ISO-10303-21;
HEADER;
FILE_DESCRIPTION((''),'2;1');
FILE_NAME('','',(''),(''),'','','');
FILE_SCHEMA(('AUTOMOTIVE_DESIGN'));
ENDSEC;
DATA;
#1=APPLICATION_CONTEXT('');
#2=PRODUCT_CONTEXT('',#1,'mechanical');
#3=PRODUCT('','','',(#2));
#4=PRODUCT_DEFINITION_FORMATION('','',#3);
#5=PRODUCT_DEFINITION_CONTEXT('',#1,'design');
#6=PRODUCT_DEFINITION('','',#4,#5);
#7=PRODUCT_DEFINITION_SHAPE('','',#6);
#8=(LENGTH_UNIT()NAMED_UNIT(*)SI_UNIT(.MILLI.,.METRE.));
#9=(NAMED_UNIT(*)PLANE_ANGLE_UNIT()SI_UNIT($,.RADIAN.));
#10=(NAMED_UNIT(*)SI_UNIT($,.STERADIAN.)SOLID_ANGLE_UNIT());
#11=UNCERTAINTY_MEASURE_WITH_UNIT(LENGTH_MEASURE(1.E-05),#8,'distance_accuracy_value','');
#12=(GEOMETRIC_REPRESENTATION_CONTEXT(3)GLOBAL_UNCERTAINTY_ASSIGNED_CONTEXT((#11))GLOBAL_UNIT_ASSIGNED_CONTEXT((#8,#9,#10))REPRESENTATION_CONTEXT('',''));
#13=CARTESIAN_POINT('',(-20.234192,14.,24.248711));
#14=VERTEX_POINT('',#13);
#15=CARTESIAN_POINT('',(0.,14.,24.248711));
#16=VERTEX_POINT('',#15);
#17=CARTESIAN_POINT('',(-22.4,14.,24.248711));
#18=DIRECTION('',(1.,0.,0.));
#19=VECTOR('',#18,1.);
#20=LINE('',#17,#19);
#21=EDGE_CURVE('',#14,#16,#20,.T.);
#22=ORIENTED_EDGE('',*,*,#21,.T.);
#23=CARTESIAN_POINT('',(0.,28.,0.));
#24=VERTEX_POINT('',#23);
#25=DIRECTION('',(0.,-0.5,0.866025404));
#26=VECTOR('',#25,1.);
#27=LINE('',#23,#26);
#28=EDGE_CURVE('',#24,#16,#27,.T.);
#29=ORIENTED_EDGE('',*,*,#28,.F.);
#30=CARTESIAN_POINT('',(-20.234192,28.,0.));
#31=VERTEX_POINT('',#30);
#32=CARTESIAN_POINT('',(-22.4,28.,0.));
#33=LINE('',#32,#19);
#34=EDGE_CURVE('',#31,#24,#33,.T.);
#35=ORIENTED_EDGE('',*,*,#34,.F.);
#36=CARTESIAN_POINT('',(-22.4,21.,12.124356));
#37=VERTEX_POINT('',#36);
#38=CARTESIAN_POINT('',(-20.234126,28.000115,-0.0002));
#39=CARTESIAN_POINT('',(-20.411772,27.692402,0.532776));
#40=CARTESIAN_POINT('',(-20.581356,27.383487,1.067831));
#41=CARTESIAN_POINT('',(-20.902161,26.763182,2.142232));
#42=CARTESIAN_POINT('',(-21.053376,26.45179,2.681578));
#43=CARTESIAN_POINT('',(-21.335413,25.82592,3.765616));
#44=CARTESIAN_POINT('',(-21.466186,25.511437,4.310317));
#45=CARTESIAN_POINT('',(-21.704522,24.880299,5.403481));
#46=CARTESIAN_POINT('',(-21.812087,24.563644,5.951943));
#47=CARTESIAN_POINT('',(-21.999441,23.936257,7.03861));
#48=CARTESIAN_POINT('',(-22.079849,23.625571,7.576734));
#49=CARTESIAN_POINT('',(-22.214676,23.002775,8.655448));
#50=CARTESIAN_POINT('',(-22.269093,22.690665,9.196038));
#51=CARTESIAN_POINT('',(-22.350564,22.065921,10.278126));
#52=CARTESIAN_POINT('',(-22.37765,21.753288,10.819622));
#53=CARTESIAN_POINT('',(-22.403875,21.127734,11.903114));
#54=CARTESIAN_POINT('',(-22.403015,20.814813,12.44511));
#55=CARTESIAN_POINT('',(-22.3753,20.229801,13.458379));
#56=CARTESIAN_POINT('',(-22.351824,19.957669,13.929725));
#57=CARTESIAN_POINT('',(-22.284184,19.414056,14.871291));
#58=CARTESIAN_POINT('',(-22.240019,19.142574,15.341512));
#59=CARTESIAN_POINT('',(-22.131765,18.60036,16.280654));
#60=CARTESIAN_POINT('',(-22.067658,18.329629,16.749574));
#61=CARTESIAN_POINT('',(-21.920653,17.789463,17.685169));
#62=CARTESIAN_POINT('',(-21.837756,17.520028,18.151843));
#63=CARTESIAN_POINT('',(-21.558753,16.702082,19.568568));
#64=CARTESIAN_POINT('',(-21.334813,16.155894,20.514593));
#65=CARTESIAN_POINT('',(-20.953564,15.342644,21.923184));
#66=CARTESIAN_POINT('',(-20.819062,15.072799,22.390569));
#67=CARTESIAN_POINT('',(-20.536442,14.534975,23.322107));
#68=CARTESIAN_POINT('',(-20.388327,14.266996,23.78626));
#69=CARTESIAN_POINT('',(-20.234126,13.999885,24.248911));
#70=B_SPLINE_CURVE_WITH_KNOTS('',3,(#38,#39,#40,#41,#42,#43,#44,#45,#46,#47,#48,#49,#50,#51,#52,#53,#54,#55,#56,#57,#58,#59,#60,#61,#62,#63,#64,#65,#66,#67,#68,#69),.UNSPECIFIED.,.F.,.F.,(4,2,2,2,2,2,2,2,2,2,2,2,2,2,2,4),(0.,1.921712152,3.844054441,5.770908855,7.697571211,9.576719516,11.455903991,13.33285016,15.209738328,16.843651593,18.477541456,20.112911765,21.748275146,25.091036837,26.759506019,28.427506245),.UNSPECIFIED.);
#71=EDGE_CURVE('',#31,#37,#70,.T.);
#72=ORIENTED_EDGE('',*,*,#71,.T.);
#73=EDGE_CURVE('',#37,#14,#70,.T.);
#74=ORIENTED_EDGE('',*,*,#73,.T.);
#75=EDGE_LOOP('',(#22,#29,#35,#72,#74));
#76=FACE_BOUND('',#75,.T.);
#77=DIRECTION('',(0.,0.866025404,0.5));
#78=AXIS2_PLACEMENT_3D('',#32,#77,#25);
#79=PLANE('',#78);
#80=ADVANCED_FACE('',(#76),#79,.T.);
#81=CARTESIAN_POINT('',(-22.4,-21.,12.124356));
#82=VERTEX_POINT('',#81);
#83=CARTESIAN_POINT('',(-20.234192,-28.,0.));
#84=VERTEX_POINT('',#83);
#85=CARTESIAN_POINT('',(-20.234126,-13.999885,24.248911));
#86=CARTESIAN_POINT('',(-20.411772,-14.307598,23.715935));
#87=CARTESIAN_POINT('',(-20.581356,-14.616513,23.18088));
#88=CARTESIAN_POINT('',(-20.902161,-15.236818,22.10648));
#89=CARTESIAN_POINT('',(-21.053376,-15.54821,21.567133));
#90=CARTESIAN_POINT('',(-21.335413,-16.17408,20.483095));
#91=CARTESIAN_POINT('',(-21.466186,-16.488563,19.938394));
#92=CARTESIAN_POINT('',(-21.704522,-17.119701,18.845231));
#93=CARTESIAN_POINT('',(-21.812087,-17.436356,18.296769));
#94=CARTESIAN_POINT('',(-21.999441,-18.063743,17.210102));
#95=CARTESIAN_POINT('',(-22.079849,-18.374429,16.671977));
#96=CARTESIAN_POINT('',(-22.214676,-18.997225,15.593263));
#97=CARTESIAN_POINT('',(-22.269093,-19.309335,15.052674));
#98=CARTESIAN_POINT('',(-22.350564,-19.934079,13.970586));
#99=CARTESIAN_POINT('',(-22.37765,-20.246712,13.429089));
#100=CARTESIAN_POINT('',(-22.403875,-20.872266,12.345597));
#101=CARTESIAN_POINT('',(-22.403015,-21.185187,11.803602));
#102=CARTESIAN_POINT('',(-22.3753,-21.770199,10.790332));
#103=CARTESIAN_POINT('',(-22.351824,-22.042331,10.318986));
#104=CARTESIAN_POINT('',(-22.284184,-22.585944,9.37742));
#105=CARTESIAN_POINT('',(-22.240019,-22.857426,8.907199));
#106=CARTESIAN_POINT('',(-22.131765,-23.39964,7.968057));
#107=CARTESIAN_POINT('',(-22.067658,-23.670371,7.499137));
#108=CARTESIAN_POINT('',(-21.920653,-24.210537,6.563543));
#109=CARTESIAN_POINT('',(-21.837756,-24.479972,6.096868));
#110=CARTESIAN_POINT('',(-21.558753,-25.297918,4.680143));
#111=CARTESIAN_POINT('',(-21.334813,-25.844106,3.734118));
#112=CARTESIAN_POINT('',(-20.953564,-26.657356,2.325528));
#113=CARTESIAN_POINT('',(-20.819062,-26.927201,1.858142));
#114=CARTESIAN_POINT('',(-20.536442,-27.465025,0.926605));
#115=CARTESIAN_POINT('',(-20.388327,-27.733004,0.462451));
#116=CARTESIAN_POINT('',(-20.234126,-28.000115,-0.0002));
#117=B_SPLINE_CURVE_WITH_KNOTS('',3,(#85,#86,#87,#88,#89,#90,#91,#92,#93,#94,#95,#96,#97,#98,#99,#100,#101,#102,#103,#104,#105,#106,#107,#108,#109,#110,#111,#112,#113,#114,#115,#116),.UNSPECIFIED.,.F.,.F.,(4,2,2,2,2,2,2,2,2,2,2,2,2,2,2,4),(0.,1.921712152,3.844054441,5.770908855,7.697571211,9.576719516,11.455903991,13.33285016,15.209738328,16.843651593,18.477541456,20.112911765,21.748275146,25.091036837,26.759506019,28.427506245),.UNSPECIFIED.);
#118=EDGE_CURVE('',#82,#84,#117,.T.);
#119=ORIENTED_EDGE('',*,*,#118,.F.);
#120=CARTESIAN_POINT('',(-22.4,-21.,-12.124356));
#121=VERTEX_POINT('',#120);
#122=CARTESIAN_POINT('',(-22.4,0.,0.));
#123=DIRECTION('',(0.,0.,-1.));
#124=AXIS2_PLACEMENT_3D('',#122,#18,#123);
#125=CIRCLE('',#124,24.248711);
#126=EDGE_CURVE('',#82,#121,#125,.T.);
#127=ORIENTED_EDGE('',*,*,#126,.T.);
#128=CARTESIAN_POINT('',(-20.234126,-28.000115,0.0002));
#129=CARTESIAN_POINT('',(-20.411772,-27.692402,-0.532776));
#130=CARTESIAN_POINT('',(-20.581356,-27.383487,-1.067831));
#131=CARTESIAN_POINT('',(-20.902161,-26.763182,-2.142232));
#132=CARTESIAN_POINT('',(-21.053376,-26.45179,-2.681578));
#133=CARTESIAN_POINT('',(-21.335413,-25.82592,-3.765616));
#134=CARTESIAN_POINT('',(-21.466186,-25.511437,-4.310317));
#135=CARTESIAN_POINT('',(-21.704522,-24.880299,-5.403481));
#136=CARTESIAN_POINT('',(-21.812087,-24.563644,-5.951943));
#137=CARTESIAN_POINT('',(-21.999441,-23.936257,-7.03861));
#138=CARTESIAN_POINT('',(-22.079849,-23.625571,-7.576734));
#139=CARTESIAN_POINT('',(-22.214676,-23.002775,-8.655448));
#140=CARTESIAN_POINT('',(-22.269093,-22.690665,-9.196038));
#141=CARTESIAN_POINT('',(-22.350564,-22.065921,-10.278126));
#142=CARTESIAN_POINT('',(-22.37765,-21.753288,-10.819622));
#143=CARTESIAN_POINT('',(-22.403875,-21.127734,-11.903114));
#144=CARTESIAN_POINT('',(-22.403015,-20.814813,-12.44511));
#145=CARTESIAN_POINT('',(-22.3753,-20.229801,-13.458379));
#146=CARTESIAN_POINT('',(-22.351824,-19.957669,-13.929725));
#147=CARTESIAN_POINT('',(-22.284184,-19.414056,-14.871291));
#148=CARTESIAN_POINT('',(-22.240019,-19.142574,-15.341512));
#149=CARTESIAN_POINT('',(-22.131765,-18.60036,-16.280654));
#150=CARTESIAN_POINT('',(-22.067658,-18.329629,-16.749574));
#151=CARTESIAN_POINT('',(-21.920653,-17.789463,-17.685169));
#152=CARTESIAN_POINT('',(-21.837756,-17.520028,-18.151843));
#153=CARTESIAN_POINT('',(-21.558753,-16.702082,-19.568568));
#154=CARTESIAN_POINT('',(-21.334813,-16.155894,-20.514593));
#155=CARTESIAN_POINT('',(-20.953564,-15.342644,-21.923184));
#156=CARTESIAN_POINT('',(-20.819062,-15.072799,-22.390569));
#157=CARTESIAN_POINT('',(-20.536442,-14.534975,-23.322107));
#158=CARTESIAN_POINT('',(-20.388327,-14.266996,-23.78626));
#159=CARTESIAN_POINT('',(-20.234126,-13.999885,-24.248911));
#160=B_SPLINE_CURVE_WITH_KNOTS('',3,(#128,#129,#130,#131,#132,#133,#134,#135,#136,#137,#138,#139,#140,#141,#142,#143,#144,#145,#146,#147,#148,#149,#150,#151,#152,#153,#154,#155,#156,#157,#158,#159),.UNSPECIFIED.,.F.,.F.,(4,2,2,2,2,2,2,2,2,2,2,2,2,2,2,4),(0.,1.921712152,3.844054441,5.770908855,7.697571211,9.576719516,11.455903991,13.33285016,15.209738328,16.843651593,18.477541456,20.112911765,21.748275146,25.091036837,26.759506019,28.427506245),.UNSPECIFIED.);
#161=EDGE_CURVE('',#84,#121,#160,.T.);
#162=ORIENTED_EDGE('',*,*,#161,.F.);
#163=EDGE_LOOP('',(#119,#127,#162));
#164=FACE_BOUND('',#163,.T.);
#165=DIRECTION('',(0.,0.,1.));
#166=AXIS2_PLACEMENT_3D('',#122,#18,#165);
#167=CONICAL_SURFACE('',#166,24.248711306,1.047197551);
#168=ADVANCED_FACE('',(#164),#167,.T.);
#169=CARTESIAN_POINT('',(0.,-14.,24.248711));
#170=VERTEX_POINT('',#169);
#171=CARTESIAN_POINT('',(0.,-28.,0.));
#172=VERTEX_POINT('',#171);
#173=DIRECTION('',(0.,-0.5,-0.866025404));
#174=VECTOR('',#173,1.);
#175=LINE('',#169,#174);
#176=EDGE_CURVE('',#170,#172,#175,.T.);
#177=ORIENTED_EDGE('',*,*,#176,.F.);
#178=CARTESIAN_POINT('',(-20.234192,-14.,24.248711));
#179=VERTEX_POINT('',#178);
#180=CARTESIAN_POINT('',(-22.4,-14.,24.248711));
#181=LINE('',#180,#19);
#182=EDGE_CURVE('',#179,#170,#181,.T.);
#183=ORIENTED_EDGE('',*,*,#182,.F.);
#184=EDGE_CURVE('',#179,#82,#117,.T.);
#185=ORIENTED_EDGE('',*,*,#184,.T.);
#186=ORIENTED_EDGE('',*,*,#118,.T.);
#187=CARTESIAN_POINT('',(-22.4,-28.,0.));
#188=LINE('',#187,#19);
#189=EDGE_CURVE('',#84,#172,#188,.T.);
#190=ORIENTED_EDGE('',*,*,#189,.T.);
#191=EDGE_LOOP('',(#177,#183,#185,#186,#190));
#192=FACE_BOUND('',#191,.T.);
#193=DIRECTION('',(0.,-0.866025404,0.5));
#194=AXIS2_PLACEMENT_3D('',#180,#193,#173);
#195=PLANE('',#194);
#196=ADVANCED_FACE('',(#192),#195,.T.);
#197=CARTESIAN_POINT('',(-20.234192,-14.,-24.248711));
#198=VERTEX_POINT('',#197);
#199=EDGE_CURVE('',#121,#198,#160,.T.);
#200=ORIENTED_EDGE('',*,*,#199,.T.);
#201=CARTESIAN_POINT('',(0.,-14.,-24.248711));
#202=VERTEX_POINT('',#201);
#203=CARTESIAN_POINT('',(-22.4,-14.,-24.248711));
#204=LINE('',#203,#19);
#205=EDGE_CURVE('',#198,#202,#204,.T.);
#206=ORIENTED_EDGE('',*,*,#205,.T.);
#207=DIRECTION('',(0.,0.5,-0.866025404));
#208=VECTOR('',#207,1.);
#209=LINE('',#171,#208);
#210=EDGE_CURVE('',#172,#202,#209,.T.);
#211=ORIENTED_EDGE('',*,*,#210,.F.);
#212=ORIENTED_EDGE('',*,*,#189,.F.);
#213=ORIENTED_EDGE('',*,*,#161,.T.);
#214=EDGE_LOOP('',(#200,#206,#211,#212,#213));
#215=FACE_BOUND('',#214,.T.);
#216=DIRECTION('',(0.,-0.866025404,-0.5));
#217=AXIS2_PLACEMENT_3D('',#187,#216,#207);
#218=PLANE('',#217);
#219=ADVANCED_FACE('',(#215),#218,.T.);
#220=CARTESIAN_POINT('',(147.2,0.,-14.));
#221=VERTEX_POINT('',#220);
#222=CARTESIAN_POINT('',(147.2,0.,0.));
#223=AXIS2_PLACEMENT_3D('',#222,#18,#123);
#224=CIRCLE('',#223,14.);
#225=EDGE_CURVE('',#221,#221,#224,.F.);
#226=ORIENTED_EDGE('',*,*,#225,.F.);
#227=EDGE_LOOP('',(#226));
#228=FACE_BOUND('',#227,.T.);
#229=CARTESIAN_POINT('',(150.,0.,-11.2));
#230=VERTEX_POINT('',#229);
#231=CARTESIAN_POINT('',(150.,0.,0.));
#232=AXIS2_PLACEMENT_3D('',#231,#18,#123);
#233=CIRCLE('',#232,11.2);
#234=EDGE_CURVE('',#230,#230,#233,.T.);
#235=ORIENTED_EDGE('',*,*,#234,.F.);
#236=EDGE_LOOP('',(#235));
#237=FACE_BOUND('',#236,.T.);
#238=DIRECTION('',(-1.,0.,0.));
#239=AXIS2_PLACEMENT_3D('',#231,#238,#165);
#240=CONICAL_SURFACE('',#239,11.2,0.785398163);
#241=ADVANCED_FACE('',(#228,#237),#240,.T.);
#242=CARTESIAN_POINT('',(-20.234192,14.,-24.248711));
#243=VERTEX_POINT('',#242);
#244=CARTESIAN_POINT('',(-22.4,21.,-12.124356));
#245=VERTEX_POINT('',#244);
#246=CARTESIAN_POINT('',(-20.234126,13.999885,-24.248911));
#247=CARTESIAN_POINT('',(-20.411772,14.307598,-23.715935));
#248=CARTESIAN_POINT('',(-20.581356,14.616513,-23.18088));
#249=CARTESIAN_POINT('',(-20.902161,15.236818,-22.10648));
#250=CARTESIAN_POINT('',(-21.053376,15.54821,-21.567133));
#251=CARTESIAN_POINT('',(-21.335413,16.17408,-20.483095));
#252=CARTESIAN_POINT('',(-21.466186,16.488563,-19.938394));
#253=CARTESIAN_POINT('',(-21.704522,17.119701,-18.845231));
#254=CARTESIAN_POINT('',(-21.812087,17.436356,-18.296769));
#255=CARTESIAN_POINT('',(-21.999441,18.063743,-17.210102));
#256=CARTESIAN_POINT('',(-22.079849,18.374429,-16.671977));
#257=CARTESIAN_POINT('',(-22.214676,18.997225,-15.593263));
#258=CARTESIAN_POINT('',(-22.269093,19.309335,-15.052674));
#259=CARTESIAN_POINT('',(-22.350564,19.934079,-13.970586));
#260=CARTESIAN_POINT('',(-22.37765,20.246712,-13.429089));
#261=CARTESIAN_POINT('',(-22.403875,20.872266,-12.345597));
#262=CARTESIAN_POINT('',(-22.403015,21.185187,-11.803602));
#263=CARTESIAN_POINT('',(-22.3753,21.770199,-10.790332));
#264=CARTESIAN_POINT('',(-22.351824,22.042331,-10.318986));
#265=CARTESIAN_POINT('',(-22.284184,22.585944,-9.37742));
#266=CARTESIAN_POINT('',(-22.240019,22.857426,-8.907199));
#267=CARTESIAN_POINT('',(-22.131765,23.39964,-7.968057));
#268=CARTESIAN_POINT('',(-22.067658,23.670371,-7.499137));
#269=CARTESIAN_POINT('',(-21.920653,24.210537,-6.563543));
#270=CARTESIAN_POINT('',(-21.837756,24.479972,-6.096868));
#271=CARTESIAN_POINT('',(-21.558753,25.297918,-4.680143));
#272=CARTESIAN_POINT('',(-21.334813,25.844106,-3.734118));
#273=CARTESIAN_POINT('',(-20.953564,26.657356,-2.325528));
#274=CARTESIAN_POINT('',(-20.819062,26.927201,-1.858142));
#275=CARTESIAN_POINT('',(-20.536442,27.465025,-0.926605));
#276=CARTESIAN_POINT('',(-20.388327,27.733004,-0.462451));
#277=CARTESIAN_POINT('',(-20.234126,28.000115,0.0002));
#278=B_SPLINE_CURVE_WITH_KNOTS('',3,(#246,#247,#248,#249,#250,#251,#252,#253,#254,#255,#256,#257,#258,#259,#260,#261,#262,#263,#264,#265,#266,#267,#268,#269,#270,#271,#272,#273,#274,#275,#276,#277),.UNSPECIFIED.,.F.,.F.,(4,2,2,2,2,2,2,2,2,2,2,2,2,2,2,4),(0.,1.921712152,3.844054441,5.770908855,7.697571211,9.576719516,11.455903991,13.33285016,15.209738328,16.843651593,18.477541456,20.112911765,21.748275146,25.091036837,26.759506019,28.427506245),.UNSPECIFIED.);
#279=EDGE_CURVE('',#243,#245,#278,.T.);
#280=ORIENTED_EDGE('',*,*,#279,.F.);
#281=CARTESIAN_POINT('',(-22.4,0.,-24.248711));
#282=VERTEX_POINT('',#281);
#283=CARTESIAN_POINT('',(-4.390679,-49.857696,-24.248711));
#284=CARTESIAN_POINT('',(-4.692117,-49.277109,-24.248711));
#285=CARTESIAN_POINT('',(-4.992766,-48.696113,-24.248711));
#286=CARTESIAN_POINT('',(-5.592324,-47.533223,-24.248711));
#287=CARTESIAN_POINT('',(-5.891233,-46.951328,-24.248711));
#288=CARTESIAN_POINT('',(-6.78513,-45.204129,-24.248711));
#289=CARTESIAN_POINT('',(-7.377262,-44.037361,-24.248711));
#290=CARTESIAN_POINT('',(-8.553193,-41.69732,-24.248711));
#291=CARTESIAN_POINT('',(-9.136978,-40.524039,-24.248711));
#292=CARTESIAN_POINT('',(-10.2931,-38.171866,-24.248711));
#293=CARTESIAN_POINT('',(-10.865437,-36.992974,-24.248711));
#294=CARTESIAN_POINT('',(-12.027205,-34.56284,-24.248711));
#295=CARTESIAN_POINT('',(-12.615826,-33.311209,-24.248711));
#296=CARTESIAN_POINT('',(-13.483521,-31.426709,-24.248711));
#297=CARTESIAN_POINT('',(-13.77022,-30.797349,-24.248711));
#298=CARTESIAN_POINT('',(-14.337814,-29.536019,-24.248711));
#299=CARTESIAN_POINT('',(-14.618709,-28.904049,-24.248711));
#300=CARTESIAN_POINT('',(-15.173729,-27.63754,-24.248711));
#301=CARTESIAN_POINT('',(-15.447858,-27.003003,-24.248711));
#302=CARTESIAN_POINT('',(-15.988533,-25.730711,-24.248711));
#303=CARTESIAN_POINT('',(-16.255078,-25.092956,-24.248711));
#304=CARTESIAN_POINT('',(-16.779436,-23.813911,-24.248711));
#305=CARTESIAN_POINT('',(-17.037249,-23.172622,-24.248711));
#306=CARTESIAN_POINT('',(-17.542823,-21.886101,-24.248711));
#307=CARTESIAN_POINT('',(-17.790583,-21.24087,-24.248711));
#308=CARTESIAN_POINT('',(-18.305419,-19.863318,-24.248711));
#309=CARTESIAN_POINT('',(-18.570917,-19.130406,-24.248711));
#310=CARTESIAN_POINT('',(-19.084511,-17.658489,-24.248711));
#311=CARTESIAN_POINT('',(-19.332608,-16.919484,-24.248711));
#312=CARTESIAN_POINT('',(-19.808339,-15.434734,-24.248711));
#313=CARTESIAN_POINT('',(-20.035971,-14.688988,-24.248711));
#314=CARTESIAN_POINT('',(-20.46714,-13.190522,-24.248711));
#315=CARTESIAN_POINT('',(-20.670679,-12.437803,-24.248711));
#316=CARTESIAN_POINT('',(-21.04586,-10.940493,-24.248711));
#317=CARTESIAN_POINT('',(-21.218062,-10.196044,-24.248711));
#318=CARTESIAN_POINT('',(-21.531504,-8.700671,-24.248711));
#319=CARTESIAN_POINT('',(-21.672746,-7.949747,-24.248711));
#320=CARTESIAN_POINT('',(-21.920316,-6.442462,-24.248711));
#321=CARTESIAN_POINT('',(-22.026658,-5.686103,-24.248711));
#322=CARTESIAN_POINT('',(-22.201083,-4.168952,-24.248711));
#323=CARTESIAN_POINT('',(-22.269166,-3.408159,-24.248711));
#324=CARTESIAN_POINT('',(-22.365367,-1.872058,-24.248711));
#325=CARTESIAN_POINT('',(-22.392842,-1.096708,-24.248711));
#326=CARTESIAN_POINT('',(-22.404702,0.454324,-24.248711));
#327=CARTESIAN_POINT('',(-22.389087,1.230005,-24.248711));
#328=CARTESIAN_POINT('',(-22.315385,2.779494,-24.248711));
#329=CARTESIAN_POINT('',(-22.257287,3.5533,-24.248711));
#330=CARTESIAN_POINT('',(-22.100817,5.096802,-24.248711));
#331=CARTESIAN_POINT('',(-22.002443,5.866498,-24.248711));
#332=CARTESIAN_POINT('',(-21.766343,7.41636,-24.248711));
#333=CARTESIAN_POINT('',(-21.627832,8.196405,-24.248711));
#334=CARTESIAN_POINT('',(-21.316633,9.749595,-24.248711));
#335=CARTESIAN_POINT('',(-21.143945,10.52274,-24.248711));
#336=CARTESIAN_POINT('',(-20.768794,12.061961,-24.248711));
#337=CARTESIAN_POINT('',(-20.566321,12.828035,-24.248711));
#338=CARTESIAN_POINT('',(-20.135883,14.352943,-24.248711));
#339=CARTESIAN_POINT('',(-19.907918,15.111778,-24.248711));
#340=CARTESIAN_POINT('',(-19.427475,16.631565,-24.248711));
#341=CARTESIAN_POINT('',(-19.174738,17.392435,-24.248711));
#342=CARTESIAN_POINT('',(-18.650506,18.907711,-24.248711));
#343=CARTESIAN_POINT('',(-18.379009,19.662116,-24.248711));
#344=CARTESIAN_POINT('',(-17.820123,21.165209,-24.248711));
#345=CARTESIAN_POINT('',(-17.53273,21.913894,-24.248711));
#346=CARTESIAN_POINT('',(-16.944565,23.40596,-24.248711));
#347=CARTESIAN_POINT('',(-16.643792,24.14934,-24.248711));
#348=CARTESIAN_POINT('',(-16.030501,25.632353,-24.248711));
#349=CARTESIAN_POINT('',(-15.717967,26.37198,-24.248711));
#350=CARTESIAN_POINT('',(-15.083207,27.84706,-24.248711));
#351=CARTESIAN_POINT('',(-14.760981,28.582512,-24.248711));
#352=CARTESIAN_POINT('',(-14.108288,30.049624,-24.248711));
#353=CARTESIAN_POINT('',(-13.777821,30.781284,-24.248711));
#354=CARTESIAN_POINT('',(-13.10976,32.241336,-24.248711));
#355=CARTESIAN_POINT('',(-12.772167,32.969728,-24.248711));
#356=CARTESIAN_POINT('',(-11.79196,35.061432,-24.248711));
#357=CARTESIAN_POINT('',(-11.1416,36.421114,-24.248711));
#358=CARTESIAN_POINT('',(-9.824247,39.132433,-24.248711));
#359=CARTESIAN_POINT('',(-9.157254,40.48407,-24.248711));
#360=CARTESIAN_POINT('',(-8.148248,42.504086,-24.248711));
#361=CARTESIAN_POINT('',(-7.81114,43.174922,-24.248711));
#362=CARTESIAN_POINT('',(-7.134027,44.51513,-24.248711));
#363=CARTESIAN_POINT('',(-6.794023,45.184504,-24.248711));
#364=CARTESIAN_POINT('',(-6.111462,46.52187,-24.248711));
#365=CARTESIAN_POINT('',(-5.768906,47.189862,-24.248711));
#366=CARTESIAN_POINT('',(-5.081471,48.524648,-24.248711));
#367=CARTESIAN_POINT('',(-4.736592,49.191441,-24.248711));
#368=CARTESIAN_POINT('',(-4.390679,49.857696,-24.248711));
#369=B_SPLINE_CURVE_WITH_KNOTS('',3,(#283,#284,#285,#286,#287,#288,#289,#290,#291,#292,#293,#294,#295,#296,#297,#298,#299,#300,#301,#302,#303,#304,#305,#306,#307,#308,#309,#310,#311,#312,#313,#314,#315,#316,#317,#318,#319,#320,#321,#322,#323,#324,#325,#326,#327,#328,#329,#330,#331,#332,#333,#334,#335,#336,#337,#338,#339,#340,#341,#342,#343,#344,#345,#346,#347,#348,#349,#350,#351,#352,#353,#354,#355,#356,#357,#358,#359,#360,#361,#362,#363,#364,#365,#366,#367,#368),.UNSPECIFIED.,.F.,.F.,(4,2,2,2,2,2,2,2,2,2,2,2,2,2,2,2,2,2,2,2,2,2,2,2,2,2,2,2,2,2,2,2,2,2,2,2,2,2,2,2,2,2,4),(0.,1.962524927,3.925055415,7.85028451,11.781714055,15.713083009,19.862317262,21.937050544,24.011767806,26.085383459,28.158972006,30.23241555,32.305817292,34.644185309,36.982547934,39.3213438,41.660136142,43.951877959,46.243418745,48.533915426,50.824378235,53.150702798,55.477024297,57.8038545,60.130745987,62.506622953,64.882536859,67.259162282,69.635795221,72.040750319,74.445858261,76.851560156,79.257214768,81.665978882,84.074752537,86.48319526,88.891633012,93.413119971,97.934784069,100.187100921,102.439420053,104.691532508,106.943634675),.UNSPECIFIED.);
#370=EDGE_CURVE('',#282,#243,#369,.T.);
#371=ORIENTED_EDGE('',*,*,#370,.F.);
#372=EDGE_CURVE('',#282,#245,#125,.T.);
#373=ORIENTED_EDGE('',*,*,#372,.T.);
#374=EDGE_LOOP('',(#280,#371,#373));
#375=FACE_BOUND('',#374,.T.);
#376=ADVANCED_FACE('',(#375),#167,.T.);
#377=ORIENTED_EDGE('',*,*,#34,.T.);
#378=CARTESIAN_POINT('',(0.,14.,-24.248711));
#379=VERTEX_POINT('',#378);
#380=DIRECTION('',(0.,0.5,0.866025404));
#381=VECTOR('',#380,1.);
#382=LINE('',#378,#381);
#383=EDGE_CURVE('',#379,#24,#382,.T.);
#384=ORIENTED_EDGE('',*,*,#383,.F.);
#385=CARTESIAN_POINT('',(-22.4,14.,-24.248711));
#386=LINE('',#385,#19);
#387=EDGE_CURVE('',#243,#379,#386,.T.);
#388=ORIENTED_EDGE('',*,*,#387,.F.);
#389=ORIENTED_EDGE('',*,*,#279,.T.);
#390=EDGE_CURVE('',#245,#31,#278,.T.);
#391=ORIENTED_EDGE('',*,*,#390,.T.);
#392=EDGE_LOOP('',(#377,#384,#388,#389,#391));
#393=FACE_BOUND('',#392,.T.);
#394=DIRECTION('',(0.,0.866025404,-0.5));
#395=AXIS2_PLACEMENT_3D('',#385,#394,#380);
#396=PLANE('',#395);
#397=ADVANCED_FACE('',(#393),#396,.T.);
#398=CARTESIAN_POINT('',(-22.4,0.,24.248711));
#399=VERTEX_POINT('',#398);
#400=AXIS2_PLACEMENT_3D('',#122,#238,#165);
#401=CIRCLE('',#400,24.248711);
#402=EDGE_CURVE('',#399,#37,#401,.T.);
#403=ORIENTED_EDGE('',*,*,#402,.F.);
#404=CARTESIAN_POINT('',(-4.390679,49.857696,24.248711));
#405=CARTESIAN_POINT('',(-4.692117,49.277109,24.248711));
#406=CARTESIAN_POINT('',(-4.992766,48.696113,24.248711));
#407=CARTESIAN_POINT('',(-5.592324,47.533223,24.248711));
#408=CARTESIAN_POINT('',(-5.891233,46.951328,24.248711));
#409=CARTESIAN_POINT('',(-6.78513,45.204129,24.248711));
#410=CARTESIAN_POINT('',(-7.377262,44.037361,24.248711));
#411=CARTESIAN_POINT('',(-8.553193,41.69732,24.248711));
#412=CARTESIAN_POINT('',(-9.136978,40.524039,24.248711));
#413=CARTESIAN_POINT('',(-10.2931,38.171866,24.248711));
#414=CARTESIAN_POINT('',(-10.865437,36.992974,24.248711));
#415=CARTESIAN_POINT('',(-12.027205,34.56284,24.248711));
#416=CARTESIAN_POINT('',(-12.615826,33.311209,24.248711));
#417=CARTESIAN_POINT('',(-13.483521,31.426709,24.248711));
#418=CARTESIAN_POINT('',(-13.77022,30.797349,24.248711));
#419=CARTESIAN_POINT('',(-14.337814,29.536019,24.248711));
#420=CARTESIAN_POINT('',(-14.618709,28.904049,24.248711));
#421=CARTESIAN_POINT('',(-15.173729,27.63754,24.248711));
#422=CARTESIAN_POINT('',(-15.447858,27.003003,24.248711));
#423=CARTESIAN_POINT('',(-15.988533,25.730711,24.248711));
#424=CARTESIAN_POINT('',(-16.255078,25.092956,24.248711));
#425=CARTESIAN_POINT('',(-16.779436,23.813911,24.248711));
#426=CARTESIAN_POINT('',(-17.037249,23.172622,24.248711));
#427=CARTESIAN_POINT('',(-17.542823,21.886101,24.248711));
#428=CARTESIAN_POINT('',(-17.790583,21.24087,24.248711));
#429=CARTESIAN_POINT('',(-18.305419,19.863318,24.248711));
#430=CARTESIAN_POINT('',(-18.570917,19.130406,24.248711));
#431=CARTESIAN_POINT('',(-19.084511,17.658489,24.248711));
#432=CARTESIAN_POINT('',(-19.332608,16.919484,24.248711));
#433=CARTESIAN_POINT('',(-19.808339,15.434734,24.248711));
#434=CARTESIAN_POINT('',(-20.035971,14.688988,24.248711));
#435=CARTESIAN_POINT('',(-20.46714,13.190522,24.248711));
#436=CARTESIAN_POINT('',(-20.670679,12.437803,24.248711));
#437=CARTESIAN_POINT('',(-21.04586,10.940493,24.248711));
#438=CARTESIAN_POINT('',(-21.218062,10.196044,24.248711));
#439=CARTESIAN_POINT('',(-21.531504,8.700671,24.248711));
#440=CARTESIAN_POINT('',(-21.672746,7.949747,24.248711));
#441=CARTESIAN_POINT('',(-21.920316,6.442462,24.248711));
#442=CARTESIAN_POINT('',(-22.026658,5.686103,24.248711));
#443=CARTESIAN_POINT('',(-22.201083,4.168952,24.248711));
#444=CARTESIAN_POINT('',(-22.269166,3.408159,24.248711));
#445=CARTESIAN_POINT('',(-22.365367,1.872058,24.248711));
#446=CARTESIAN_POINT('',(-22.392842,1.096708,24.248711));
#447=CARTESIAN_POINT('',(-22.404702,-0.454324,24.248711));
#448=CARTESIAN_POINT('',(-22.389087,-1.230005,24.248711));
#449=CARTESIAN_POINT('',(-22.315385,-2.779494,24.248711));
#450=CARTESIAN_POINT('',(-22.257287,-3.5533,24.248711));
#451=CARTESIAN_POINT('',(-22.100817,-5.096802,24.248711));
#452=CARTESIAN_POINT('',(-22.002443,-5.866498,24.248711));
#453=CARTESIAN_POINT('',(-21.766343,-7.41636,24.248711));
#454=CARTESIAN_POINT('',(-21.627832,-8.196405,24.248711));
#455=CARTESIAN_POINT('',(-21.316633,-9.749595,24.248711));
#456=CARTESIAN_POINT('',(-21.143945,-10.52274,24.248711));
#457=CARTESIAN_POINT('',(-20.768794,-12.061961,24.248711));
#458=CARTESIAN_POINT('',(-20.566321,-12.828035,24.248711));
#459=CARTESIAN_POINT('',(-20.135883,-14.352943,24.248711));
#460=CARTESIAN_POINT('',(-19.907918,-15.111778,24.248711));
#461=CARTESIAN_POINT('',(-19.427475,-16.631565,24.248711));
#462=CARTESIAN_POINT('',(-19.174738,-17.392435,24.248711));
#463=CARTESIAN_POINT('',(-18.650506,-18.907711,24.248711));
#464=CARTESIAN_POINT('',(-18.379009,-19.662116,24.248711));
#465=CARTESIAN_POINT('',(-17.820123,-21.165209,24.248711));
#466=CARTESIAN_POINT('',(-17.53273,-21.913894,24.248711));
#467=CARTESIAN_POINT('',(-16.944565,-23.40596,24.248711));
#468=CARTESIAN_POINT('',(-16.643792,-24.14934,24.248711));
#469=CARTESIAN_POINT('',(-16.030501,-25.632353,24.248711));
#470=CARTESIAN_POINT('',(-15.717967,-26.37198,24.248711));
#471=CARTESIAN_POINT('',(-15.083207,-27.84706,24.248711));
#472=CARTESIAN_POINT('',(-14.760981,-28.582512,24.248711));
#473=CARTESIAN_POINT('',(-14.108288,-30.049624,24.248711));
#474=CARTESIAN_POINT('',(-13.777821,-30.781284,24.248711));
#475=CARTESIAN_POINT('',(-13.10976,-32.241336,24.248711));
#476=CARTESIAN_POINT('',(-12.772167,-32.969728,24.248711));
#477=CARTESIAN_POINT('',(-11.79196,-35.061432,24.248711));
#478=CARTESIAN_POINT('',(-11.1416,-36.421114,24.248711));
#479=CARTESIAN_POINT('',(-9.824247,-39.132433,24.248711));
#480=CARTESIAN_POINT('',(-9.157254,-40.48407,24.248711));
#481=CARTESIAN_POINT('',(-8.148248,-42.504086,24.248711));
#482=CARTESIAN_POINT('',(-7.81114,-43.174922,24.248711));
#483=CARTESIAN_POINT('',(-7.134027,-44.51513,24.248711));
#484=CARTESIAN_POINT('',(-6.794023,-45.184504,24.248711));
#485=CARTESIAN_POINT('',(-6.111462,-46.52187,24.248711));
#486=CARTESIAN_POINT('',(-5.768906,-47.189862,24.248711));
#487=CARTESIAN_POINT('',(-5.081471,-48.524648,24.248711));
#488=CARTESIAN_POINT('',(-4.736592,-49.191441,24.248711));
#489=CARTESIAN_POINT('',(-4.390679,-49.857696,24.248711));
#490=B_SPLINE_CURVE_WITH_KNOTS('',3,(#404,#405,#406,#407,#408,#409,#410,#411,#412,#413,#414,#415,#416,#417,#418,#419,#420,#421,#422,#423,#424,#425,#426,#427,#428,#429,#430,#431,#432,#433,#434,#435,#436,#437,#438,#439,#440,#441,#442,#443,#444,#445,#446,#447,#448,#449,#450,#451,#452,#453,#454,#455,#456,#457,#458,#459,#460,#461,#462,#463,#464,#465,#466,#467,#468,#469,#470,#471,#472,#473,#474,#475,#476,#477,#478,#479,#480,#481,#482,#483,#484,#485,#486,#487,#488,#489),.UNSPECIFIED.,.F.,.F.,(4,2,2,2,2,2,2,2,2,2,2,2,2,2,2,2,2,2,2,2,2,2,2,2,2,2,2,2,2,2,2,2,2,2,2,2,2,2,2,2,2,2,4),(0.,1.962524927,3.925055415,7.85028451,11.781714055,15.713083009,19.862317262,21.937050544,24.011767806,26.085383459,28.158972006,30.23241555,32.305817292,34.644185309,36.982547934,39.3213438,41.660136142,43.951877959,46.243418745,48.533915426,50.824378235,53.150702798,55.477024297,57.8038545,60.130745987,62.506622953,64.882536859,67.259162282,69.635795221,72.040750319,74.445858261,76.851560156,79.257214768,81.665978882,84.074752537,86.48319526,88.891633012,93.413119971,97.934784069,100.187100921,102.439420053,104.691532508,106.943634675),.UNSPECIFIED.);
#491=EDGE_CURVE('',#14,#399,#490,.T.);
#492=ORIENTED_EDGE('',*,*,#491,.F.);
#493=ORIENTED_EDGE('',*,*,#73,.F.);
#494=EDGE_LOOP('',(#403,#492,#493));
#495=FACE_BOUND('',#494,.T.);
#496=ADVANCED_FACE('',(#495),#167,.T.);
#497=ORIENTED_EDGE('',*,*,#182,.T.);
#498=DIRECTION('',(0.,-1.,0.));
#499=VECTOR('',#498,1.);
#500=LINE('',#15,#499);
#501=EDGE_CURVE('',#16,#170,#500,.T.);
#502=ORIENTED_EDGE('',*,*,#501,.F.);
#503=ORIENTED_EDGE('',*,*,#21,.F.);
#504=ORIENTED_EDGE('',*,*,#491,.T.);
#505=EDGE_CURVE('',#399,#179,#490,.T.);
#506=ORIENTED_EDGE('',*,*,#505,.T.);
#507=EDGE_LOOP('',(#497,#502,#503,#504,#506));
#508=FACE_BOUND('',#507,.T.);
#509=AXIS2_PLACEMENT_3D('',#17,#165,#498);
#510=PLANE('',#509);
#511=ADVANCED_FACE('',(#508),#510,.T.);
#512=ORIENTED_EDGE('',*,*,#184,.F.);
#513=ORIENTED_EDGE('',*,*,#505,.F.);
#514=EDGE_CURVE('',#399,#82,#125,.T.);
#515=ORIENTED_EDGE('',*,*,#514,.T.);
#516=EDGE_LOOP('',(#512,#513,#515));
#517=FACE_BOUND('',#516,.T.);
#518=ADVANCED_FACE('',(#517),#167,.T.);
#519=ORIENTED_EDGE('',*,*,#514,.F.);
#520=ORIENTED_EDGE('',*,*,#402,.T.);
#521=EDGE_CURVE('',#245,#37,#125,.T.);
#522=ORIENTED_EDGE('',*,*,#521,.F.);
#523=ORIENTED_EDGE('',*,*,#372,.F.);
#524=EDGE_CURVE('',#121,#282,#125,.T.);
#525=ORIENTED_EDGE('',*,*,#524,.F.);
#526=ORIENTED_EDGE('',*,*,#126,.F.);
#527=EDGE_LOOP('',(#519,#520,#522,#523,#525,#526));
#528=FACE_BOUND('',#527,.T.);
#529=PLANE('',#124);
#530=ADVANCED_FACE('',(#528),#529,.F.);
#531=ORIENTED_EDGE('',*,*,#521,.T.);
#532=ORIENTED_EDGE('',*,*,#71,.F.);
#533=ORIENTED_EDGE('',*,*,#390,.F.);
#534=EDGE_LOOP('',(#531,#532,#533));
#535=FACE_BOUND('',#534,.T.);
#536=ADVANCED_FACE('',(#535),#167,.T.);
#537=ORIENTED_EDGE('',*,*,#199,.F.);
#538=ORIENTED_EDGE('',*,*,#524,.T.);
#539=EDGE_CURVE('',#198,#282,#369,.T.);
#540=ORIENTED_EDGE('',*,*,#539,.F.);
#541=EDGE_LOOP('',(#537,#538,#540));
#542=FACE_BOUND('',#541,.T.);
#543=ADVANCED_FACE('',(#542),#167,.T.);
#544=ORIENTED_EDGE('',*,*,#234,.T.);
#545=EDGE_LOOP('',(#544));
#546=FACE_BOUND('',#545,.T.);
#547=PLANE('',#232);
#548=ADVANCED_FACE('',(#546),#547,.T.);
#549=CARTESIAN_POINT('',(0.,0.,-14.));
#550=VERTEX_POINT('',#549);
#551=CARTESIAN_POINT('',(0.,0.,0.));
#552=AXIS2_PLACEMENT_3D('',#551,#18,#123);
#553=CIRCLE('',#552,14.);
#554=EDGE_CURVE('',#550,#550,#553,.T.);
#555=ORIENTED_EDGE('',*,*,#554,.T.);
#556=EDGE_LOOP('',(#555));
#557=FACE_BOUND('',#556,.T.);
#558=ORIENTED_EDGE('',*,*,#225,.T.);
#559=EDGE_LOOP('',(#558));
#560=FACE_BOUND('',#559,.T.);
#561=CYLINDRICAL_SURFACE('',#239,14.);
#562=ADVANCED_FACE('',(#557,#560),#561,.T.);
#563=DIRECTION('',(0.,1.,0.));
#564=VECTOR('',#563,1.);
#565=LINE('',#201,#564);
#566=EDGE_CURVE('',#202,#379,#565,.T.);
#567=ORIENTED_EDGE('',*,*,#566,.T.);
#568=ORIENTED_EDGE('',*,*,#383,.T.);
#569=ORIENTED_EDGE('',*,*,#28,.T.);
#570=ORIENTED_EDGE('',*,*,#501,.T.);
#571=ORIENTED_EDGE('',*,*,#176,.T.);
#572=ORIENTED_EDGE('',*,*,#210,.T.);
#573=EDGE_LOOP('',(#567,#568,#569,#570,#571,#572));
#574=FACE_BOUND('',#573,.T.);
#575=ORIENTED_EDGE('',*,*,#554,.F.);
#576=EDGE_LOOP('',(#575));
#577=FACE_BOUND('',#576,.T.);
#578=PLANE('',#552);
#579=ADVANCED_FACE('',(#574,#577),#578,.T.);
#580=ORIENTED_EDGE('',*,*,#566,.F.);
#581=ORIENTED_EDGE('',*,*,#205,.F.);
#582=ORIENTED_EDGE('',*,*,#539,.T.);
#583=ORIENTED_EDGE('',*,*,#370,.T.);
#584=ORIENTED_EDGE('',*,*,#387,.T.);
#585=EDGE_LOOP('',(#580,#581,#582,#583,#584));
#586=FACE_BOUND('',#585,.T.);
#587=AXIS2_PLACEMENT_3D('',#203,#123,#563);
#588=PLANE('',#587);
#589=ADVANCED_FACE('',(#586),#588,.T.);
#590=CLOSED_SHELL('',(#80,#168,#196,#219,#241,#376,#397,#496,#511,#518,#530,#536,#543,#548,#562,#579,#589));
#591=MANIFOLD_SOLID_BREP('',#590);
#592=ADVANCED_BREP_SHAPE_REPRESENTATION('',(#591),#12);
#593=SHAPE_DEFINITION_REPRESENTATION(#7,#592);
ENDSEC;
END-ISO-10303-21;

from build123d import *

# Parameters (mm, degrees)
BOSS_EXTRUDE1_DEPTH = 22.4
SKETCH2_R           = 14
BOSS_EXTRUDE2_DEPTH = 150
CHAMFER1_SIZE       = 2.8
SKETCH3_OUTSIDE_W   = 607.642
SKETCH3_OUTSIDE_H   = 615.144
SKETCH3_OUTSIDE_R   = 24.248711306
CUT_EXTRUDE1_DEPTH  = 150
CUT_EXTRUDE1_TAPER  = 60


with BuildPart() as part:
    # Sketch1 → Boss-Extrude1 (new body)
    with BuildSketch(Plane(origin=(0, 0, 0), x_dir=(0, 0, -1), z_dir=(1, 0, 0))):
        Polygon((0, 28), (-24.248711306, 14), (-24.248711306, -14), (0, -28), (24.248711306, -14), (24.248711306, 14), align=None)
    extrude(amount=-BOSS_EXTRUDE1_DEPTH)

    # Sketch2 → Boss-Extrude2 (add)
    with BuildSketch(Plane(origin=(0, 0, 0), x_dir=(0, 0, -1), z_dir=(1, 0, 0))):
        Circle(SKETCH2_R)
    extrude(amount=BOSS_EXTRUDE2_DEPTH)

    # Chamfer1
    chamfer1_edges = [part.edges().sort_by_distance(p)[0] for p in [
        (150, 0, 14),
    ]]
    chamfer(chamfer1_edges, length=CHAMFER1_SIZE)

    # Sketch3 outside → Cut-Extrude1 (cut)
    with BuildSketch(Plane.ZY.offset(22.4)):
        Rectangle(SKETCH3_OUTSIDE_W, SKETCH3_OUTSIDE_H)
        Circle(SKETCH3_OUTSIDE_R, mode=Mode.SUBTRACT)
    extrude(amount=-CUT_EXTRUDE1_DEPTH, taper=CUT_EXTRUDE1_TAPER, mode=Mode.SUBTRACT)


solid = part.part
